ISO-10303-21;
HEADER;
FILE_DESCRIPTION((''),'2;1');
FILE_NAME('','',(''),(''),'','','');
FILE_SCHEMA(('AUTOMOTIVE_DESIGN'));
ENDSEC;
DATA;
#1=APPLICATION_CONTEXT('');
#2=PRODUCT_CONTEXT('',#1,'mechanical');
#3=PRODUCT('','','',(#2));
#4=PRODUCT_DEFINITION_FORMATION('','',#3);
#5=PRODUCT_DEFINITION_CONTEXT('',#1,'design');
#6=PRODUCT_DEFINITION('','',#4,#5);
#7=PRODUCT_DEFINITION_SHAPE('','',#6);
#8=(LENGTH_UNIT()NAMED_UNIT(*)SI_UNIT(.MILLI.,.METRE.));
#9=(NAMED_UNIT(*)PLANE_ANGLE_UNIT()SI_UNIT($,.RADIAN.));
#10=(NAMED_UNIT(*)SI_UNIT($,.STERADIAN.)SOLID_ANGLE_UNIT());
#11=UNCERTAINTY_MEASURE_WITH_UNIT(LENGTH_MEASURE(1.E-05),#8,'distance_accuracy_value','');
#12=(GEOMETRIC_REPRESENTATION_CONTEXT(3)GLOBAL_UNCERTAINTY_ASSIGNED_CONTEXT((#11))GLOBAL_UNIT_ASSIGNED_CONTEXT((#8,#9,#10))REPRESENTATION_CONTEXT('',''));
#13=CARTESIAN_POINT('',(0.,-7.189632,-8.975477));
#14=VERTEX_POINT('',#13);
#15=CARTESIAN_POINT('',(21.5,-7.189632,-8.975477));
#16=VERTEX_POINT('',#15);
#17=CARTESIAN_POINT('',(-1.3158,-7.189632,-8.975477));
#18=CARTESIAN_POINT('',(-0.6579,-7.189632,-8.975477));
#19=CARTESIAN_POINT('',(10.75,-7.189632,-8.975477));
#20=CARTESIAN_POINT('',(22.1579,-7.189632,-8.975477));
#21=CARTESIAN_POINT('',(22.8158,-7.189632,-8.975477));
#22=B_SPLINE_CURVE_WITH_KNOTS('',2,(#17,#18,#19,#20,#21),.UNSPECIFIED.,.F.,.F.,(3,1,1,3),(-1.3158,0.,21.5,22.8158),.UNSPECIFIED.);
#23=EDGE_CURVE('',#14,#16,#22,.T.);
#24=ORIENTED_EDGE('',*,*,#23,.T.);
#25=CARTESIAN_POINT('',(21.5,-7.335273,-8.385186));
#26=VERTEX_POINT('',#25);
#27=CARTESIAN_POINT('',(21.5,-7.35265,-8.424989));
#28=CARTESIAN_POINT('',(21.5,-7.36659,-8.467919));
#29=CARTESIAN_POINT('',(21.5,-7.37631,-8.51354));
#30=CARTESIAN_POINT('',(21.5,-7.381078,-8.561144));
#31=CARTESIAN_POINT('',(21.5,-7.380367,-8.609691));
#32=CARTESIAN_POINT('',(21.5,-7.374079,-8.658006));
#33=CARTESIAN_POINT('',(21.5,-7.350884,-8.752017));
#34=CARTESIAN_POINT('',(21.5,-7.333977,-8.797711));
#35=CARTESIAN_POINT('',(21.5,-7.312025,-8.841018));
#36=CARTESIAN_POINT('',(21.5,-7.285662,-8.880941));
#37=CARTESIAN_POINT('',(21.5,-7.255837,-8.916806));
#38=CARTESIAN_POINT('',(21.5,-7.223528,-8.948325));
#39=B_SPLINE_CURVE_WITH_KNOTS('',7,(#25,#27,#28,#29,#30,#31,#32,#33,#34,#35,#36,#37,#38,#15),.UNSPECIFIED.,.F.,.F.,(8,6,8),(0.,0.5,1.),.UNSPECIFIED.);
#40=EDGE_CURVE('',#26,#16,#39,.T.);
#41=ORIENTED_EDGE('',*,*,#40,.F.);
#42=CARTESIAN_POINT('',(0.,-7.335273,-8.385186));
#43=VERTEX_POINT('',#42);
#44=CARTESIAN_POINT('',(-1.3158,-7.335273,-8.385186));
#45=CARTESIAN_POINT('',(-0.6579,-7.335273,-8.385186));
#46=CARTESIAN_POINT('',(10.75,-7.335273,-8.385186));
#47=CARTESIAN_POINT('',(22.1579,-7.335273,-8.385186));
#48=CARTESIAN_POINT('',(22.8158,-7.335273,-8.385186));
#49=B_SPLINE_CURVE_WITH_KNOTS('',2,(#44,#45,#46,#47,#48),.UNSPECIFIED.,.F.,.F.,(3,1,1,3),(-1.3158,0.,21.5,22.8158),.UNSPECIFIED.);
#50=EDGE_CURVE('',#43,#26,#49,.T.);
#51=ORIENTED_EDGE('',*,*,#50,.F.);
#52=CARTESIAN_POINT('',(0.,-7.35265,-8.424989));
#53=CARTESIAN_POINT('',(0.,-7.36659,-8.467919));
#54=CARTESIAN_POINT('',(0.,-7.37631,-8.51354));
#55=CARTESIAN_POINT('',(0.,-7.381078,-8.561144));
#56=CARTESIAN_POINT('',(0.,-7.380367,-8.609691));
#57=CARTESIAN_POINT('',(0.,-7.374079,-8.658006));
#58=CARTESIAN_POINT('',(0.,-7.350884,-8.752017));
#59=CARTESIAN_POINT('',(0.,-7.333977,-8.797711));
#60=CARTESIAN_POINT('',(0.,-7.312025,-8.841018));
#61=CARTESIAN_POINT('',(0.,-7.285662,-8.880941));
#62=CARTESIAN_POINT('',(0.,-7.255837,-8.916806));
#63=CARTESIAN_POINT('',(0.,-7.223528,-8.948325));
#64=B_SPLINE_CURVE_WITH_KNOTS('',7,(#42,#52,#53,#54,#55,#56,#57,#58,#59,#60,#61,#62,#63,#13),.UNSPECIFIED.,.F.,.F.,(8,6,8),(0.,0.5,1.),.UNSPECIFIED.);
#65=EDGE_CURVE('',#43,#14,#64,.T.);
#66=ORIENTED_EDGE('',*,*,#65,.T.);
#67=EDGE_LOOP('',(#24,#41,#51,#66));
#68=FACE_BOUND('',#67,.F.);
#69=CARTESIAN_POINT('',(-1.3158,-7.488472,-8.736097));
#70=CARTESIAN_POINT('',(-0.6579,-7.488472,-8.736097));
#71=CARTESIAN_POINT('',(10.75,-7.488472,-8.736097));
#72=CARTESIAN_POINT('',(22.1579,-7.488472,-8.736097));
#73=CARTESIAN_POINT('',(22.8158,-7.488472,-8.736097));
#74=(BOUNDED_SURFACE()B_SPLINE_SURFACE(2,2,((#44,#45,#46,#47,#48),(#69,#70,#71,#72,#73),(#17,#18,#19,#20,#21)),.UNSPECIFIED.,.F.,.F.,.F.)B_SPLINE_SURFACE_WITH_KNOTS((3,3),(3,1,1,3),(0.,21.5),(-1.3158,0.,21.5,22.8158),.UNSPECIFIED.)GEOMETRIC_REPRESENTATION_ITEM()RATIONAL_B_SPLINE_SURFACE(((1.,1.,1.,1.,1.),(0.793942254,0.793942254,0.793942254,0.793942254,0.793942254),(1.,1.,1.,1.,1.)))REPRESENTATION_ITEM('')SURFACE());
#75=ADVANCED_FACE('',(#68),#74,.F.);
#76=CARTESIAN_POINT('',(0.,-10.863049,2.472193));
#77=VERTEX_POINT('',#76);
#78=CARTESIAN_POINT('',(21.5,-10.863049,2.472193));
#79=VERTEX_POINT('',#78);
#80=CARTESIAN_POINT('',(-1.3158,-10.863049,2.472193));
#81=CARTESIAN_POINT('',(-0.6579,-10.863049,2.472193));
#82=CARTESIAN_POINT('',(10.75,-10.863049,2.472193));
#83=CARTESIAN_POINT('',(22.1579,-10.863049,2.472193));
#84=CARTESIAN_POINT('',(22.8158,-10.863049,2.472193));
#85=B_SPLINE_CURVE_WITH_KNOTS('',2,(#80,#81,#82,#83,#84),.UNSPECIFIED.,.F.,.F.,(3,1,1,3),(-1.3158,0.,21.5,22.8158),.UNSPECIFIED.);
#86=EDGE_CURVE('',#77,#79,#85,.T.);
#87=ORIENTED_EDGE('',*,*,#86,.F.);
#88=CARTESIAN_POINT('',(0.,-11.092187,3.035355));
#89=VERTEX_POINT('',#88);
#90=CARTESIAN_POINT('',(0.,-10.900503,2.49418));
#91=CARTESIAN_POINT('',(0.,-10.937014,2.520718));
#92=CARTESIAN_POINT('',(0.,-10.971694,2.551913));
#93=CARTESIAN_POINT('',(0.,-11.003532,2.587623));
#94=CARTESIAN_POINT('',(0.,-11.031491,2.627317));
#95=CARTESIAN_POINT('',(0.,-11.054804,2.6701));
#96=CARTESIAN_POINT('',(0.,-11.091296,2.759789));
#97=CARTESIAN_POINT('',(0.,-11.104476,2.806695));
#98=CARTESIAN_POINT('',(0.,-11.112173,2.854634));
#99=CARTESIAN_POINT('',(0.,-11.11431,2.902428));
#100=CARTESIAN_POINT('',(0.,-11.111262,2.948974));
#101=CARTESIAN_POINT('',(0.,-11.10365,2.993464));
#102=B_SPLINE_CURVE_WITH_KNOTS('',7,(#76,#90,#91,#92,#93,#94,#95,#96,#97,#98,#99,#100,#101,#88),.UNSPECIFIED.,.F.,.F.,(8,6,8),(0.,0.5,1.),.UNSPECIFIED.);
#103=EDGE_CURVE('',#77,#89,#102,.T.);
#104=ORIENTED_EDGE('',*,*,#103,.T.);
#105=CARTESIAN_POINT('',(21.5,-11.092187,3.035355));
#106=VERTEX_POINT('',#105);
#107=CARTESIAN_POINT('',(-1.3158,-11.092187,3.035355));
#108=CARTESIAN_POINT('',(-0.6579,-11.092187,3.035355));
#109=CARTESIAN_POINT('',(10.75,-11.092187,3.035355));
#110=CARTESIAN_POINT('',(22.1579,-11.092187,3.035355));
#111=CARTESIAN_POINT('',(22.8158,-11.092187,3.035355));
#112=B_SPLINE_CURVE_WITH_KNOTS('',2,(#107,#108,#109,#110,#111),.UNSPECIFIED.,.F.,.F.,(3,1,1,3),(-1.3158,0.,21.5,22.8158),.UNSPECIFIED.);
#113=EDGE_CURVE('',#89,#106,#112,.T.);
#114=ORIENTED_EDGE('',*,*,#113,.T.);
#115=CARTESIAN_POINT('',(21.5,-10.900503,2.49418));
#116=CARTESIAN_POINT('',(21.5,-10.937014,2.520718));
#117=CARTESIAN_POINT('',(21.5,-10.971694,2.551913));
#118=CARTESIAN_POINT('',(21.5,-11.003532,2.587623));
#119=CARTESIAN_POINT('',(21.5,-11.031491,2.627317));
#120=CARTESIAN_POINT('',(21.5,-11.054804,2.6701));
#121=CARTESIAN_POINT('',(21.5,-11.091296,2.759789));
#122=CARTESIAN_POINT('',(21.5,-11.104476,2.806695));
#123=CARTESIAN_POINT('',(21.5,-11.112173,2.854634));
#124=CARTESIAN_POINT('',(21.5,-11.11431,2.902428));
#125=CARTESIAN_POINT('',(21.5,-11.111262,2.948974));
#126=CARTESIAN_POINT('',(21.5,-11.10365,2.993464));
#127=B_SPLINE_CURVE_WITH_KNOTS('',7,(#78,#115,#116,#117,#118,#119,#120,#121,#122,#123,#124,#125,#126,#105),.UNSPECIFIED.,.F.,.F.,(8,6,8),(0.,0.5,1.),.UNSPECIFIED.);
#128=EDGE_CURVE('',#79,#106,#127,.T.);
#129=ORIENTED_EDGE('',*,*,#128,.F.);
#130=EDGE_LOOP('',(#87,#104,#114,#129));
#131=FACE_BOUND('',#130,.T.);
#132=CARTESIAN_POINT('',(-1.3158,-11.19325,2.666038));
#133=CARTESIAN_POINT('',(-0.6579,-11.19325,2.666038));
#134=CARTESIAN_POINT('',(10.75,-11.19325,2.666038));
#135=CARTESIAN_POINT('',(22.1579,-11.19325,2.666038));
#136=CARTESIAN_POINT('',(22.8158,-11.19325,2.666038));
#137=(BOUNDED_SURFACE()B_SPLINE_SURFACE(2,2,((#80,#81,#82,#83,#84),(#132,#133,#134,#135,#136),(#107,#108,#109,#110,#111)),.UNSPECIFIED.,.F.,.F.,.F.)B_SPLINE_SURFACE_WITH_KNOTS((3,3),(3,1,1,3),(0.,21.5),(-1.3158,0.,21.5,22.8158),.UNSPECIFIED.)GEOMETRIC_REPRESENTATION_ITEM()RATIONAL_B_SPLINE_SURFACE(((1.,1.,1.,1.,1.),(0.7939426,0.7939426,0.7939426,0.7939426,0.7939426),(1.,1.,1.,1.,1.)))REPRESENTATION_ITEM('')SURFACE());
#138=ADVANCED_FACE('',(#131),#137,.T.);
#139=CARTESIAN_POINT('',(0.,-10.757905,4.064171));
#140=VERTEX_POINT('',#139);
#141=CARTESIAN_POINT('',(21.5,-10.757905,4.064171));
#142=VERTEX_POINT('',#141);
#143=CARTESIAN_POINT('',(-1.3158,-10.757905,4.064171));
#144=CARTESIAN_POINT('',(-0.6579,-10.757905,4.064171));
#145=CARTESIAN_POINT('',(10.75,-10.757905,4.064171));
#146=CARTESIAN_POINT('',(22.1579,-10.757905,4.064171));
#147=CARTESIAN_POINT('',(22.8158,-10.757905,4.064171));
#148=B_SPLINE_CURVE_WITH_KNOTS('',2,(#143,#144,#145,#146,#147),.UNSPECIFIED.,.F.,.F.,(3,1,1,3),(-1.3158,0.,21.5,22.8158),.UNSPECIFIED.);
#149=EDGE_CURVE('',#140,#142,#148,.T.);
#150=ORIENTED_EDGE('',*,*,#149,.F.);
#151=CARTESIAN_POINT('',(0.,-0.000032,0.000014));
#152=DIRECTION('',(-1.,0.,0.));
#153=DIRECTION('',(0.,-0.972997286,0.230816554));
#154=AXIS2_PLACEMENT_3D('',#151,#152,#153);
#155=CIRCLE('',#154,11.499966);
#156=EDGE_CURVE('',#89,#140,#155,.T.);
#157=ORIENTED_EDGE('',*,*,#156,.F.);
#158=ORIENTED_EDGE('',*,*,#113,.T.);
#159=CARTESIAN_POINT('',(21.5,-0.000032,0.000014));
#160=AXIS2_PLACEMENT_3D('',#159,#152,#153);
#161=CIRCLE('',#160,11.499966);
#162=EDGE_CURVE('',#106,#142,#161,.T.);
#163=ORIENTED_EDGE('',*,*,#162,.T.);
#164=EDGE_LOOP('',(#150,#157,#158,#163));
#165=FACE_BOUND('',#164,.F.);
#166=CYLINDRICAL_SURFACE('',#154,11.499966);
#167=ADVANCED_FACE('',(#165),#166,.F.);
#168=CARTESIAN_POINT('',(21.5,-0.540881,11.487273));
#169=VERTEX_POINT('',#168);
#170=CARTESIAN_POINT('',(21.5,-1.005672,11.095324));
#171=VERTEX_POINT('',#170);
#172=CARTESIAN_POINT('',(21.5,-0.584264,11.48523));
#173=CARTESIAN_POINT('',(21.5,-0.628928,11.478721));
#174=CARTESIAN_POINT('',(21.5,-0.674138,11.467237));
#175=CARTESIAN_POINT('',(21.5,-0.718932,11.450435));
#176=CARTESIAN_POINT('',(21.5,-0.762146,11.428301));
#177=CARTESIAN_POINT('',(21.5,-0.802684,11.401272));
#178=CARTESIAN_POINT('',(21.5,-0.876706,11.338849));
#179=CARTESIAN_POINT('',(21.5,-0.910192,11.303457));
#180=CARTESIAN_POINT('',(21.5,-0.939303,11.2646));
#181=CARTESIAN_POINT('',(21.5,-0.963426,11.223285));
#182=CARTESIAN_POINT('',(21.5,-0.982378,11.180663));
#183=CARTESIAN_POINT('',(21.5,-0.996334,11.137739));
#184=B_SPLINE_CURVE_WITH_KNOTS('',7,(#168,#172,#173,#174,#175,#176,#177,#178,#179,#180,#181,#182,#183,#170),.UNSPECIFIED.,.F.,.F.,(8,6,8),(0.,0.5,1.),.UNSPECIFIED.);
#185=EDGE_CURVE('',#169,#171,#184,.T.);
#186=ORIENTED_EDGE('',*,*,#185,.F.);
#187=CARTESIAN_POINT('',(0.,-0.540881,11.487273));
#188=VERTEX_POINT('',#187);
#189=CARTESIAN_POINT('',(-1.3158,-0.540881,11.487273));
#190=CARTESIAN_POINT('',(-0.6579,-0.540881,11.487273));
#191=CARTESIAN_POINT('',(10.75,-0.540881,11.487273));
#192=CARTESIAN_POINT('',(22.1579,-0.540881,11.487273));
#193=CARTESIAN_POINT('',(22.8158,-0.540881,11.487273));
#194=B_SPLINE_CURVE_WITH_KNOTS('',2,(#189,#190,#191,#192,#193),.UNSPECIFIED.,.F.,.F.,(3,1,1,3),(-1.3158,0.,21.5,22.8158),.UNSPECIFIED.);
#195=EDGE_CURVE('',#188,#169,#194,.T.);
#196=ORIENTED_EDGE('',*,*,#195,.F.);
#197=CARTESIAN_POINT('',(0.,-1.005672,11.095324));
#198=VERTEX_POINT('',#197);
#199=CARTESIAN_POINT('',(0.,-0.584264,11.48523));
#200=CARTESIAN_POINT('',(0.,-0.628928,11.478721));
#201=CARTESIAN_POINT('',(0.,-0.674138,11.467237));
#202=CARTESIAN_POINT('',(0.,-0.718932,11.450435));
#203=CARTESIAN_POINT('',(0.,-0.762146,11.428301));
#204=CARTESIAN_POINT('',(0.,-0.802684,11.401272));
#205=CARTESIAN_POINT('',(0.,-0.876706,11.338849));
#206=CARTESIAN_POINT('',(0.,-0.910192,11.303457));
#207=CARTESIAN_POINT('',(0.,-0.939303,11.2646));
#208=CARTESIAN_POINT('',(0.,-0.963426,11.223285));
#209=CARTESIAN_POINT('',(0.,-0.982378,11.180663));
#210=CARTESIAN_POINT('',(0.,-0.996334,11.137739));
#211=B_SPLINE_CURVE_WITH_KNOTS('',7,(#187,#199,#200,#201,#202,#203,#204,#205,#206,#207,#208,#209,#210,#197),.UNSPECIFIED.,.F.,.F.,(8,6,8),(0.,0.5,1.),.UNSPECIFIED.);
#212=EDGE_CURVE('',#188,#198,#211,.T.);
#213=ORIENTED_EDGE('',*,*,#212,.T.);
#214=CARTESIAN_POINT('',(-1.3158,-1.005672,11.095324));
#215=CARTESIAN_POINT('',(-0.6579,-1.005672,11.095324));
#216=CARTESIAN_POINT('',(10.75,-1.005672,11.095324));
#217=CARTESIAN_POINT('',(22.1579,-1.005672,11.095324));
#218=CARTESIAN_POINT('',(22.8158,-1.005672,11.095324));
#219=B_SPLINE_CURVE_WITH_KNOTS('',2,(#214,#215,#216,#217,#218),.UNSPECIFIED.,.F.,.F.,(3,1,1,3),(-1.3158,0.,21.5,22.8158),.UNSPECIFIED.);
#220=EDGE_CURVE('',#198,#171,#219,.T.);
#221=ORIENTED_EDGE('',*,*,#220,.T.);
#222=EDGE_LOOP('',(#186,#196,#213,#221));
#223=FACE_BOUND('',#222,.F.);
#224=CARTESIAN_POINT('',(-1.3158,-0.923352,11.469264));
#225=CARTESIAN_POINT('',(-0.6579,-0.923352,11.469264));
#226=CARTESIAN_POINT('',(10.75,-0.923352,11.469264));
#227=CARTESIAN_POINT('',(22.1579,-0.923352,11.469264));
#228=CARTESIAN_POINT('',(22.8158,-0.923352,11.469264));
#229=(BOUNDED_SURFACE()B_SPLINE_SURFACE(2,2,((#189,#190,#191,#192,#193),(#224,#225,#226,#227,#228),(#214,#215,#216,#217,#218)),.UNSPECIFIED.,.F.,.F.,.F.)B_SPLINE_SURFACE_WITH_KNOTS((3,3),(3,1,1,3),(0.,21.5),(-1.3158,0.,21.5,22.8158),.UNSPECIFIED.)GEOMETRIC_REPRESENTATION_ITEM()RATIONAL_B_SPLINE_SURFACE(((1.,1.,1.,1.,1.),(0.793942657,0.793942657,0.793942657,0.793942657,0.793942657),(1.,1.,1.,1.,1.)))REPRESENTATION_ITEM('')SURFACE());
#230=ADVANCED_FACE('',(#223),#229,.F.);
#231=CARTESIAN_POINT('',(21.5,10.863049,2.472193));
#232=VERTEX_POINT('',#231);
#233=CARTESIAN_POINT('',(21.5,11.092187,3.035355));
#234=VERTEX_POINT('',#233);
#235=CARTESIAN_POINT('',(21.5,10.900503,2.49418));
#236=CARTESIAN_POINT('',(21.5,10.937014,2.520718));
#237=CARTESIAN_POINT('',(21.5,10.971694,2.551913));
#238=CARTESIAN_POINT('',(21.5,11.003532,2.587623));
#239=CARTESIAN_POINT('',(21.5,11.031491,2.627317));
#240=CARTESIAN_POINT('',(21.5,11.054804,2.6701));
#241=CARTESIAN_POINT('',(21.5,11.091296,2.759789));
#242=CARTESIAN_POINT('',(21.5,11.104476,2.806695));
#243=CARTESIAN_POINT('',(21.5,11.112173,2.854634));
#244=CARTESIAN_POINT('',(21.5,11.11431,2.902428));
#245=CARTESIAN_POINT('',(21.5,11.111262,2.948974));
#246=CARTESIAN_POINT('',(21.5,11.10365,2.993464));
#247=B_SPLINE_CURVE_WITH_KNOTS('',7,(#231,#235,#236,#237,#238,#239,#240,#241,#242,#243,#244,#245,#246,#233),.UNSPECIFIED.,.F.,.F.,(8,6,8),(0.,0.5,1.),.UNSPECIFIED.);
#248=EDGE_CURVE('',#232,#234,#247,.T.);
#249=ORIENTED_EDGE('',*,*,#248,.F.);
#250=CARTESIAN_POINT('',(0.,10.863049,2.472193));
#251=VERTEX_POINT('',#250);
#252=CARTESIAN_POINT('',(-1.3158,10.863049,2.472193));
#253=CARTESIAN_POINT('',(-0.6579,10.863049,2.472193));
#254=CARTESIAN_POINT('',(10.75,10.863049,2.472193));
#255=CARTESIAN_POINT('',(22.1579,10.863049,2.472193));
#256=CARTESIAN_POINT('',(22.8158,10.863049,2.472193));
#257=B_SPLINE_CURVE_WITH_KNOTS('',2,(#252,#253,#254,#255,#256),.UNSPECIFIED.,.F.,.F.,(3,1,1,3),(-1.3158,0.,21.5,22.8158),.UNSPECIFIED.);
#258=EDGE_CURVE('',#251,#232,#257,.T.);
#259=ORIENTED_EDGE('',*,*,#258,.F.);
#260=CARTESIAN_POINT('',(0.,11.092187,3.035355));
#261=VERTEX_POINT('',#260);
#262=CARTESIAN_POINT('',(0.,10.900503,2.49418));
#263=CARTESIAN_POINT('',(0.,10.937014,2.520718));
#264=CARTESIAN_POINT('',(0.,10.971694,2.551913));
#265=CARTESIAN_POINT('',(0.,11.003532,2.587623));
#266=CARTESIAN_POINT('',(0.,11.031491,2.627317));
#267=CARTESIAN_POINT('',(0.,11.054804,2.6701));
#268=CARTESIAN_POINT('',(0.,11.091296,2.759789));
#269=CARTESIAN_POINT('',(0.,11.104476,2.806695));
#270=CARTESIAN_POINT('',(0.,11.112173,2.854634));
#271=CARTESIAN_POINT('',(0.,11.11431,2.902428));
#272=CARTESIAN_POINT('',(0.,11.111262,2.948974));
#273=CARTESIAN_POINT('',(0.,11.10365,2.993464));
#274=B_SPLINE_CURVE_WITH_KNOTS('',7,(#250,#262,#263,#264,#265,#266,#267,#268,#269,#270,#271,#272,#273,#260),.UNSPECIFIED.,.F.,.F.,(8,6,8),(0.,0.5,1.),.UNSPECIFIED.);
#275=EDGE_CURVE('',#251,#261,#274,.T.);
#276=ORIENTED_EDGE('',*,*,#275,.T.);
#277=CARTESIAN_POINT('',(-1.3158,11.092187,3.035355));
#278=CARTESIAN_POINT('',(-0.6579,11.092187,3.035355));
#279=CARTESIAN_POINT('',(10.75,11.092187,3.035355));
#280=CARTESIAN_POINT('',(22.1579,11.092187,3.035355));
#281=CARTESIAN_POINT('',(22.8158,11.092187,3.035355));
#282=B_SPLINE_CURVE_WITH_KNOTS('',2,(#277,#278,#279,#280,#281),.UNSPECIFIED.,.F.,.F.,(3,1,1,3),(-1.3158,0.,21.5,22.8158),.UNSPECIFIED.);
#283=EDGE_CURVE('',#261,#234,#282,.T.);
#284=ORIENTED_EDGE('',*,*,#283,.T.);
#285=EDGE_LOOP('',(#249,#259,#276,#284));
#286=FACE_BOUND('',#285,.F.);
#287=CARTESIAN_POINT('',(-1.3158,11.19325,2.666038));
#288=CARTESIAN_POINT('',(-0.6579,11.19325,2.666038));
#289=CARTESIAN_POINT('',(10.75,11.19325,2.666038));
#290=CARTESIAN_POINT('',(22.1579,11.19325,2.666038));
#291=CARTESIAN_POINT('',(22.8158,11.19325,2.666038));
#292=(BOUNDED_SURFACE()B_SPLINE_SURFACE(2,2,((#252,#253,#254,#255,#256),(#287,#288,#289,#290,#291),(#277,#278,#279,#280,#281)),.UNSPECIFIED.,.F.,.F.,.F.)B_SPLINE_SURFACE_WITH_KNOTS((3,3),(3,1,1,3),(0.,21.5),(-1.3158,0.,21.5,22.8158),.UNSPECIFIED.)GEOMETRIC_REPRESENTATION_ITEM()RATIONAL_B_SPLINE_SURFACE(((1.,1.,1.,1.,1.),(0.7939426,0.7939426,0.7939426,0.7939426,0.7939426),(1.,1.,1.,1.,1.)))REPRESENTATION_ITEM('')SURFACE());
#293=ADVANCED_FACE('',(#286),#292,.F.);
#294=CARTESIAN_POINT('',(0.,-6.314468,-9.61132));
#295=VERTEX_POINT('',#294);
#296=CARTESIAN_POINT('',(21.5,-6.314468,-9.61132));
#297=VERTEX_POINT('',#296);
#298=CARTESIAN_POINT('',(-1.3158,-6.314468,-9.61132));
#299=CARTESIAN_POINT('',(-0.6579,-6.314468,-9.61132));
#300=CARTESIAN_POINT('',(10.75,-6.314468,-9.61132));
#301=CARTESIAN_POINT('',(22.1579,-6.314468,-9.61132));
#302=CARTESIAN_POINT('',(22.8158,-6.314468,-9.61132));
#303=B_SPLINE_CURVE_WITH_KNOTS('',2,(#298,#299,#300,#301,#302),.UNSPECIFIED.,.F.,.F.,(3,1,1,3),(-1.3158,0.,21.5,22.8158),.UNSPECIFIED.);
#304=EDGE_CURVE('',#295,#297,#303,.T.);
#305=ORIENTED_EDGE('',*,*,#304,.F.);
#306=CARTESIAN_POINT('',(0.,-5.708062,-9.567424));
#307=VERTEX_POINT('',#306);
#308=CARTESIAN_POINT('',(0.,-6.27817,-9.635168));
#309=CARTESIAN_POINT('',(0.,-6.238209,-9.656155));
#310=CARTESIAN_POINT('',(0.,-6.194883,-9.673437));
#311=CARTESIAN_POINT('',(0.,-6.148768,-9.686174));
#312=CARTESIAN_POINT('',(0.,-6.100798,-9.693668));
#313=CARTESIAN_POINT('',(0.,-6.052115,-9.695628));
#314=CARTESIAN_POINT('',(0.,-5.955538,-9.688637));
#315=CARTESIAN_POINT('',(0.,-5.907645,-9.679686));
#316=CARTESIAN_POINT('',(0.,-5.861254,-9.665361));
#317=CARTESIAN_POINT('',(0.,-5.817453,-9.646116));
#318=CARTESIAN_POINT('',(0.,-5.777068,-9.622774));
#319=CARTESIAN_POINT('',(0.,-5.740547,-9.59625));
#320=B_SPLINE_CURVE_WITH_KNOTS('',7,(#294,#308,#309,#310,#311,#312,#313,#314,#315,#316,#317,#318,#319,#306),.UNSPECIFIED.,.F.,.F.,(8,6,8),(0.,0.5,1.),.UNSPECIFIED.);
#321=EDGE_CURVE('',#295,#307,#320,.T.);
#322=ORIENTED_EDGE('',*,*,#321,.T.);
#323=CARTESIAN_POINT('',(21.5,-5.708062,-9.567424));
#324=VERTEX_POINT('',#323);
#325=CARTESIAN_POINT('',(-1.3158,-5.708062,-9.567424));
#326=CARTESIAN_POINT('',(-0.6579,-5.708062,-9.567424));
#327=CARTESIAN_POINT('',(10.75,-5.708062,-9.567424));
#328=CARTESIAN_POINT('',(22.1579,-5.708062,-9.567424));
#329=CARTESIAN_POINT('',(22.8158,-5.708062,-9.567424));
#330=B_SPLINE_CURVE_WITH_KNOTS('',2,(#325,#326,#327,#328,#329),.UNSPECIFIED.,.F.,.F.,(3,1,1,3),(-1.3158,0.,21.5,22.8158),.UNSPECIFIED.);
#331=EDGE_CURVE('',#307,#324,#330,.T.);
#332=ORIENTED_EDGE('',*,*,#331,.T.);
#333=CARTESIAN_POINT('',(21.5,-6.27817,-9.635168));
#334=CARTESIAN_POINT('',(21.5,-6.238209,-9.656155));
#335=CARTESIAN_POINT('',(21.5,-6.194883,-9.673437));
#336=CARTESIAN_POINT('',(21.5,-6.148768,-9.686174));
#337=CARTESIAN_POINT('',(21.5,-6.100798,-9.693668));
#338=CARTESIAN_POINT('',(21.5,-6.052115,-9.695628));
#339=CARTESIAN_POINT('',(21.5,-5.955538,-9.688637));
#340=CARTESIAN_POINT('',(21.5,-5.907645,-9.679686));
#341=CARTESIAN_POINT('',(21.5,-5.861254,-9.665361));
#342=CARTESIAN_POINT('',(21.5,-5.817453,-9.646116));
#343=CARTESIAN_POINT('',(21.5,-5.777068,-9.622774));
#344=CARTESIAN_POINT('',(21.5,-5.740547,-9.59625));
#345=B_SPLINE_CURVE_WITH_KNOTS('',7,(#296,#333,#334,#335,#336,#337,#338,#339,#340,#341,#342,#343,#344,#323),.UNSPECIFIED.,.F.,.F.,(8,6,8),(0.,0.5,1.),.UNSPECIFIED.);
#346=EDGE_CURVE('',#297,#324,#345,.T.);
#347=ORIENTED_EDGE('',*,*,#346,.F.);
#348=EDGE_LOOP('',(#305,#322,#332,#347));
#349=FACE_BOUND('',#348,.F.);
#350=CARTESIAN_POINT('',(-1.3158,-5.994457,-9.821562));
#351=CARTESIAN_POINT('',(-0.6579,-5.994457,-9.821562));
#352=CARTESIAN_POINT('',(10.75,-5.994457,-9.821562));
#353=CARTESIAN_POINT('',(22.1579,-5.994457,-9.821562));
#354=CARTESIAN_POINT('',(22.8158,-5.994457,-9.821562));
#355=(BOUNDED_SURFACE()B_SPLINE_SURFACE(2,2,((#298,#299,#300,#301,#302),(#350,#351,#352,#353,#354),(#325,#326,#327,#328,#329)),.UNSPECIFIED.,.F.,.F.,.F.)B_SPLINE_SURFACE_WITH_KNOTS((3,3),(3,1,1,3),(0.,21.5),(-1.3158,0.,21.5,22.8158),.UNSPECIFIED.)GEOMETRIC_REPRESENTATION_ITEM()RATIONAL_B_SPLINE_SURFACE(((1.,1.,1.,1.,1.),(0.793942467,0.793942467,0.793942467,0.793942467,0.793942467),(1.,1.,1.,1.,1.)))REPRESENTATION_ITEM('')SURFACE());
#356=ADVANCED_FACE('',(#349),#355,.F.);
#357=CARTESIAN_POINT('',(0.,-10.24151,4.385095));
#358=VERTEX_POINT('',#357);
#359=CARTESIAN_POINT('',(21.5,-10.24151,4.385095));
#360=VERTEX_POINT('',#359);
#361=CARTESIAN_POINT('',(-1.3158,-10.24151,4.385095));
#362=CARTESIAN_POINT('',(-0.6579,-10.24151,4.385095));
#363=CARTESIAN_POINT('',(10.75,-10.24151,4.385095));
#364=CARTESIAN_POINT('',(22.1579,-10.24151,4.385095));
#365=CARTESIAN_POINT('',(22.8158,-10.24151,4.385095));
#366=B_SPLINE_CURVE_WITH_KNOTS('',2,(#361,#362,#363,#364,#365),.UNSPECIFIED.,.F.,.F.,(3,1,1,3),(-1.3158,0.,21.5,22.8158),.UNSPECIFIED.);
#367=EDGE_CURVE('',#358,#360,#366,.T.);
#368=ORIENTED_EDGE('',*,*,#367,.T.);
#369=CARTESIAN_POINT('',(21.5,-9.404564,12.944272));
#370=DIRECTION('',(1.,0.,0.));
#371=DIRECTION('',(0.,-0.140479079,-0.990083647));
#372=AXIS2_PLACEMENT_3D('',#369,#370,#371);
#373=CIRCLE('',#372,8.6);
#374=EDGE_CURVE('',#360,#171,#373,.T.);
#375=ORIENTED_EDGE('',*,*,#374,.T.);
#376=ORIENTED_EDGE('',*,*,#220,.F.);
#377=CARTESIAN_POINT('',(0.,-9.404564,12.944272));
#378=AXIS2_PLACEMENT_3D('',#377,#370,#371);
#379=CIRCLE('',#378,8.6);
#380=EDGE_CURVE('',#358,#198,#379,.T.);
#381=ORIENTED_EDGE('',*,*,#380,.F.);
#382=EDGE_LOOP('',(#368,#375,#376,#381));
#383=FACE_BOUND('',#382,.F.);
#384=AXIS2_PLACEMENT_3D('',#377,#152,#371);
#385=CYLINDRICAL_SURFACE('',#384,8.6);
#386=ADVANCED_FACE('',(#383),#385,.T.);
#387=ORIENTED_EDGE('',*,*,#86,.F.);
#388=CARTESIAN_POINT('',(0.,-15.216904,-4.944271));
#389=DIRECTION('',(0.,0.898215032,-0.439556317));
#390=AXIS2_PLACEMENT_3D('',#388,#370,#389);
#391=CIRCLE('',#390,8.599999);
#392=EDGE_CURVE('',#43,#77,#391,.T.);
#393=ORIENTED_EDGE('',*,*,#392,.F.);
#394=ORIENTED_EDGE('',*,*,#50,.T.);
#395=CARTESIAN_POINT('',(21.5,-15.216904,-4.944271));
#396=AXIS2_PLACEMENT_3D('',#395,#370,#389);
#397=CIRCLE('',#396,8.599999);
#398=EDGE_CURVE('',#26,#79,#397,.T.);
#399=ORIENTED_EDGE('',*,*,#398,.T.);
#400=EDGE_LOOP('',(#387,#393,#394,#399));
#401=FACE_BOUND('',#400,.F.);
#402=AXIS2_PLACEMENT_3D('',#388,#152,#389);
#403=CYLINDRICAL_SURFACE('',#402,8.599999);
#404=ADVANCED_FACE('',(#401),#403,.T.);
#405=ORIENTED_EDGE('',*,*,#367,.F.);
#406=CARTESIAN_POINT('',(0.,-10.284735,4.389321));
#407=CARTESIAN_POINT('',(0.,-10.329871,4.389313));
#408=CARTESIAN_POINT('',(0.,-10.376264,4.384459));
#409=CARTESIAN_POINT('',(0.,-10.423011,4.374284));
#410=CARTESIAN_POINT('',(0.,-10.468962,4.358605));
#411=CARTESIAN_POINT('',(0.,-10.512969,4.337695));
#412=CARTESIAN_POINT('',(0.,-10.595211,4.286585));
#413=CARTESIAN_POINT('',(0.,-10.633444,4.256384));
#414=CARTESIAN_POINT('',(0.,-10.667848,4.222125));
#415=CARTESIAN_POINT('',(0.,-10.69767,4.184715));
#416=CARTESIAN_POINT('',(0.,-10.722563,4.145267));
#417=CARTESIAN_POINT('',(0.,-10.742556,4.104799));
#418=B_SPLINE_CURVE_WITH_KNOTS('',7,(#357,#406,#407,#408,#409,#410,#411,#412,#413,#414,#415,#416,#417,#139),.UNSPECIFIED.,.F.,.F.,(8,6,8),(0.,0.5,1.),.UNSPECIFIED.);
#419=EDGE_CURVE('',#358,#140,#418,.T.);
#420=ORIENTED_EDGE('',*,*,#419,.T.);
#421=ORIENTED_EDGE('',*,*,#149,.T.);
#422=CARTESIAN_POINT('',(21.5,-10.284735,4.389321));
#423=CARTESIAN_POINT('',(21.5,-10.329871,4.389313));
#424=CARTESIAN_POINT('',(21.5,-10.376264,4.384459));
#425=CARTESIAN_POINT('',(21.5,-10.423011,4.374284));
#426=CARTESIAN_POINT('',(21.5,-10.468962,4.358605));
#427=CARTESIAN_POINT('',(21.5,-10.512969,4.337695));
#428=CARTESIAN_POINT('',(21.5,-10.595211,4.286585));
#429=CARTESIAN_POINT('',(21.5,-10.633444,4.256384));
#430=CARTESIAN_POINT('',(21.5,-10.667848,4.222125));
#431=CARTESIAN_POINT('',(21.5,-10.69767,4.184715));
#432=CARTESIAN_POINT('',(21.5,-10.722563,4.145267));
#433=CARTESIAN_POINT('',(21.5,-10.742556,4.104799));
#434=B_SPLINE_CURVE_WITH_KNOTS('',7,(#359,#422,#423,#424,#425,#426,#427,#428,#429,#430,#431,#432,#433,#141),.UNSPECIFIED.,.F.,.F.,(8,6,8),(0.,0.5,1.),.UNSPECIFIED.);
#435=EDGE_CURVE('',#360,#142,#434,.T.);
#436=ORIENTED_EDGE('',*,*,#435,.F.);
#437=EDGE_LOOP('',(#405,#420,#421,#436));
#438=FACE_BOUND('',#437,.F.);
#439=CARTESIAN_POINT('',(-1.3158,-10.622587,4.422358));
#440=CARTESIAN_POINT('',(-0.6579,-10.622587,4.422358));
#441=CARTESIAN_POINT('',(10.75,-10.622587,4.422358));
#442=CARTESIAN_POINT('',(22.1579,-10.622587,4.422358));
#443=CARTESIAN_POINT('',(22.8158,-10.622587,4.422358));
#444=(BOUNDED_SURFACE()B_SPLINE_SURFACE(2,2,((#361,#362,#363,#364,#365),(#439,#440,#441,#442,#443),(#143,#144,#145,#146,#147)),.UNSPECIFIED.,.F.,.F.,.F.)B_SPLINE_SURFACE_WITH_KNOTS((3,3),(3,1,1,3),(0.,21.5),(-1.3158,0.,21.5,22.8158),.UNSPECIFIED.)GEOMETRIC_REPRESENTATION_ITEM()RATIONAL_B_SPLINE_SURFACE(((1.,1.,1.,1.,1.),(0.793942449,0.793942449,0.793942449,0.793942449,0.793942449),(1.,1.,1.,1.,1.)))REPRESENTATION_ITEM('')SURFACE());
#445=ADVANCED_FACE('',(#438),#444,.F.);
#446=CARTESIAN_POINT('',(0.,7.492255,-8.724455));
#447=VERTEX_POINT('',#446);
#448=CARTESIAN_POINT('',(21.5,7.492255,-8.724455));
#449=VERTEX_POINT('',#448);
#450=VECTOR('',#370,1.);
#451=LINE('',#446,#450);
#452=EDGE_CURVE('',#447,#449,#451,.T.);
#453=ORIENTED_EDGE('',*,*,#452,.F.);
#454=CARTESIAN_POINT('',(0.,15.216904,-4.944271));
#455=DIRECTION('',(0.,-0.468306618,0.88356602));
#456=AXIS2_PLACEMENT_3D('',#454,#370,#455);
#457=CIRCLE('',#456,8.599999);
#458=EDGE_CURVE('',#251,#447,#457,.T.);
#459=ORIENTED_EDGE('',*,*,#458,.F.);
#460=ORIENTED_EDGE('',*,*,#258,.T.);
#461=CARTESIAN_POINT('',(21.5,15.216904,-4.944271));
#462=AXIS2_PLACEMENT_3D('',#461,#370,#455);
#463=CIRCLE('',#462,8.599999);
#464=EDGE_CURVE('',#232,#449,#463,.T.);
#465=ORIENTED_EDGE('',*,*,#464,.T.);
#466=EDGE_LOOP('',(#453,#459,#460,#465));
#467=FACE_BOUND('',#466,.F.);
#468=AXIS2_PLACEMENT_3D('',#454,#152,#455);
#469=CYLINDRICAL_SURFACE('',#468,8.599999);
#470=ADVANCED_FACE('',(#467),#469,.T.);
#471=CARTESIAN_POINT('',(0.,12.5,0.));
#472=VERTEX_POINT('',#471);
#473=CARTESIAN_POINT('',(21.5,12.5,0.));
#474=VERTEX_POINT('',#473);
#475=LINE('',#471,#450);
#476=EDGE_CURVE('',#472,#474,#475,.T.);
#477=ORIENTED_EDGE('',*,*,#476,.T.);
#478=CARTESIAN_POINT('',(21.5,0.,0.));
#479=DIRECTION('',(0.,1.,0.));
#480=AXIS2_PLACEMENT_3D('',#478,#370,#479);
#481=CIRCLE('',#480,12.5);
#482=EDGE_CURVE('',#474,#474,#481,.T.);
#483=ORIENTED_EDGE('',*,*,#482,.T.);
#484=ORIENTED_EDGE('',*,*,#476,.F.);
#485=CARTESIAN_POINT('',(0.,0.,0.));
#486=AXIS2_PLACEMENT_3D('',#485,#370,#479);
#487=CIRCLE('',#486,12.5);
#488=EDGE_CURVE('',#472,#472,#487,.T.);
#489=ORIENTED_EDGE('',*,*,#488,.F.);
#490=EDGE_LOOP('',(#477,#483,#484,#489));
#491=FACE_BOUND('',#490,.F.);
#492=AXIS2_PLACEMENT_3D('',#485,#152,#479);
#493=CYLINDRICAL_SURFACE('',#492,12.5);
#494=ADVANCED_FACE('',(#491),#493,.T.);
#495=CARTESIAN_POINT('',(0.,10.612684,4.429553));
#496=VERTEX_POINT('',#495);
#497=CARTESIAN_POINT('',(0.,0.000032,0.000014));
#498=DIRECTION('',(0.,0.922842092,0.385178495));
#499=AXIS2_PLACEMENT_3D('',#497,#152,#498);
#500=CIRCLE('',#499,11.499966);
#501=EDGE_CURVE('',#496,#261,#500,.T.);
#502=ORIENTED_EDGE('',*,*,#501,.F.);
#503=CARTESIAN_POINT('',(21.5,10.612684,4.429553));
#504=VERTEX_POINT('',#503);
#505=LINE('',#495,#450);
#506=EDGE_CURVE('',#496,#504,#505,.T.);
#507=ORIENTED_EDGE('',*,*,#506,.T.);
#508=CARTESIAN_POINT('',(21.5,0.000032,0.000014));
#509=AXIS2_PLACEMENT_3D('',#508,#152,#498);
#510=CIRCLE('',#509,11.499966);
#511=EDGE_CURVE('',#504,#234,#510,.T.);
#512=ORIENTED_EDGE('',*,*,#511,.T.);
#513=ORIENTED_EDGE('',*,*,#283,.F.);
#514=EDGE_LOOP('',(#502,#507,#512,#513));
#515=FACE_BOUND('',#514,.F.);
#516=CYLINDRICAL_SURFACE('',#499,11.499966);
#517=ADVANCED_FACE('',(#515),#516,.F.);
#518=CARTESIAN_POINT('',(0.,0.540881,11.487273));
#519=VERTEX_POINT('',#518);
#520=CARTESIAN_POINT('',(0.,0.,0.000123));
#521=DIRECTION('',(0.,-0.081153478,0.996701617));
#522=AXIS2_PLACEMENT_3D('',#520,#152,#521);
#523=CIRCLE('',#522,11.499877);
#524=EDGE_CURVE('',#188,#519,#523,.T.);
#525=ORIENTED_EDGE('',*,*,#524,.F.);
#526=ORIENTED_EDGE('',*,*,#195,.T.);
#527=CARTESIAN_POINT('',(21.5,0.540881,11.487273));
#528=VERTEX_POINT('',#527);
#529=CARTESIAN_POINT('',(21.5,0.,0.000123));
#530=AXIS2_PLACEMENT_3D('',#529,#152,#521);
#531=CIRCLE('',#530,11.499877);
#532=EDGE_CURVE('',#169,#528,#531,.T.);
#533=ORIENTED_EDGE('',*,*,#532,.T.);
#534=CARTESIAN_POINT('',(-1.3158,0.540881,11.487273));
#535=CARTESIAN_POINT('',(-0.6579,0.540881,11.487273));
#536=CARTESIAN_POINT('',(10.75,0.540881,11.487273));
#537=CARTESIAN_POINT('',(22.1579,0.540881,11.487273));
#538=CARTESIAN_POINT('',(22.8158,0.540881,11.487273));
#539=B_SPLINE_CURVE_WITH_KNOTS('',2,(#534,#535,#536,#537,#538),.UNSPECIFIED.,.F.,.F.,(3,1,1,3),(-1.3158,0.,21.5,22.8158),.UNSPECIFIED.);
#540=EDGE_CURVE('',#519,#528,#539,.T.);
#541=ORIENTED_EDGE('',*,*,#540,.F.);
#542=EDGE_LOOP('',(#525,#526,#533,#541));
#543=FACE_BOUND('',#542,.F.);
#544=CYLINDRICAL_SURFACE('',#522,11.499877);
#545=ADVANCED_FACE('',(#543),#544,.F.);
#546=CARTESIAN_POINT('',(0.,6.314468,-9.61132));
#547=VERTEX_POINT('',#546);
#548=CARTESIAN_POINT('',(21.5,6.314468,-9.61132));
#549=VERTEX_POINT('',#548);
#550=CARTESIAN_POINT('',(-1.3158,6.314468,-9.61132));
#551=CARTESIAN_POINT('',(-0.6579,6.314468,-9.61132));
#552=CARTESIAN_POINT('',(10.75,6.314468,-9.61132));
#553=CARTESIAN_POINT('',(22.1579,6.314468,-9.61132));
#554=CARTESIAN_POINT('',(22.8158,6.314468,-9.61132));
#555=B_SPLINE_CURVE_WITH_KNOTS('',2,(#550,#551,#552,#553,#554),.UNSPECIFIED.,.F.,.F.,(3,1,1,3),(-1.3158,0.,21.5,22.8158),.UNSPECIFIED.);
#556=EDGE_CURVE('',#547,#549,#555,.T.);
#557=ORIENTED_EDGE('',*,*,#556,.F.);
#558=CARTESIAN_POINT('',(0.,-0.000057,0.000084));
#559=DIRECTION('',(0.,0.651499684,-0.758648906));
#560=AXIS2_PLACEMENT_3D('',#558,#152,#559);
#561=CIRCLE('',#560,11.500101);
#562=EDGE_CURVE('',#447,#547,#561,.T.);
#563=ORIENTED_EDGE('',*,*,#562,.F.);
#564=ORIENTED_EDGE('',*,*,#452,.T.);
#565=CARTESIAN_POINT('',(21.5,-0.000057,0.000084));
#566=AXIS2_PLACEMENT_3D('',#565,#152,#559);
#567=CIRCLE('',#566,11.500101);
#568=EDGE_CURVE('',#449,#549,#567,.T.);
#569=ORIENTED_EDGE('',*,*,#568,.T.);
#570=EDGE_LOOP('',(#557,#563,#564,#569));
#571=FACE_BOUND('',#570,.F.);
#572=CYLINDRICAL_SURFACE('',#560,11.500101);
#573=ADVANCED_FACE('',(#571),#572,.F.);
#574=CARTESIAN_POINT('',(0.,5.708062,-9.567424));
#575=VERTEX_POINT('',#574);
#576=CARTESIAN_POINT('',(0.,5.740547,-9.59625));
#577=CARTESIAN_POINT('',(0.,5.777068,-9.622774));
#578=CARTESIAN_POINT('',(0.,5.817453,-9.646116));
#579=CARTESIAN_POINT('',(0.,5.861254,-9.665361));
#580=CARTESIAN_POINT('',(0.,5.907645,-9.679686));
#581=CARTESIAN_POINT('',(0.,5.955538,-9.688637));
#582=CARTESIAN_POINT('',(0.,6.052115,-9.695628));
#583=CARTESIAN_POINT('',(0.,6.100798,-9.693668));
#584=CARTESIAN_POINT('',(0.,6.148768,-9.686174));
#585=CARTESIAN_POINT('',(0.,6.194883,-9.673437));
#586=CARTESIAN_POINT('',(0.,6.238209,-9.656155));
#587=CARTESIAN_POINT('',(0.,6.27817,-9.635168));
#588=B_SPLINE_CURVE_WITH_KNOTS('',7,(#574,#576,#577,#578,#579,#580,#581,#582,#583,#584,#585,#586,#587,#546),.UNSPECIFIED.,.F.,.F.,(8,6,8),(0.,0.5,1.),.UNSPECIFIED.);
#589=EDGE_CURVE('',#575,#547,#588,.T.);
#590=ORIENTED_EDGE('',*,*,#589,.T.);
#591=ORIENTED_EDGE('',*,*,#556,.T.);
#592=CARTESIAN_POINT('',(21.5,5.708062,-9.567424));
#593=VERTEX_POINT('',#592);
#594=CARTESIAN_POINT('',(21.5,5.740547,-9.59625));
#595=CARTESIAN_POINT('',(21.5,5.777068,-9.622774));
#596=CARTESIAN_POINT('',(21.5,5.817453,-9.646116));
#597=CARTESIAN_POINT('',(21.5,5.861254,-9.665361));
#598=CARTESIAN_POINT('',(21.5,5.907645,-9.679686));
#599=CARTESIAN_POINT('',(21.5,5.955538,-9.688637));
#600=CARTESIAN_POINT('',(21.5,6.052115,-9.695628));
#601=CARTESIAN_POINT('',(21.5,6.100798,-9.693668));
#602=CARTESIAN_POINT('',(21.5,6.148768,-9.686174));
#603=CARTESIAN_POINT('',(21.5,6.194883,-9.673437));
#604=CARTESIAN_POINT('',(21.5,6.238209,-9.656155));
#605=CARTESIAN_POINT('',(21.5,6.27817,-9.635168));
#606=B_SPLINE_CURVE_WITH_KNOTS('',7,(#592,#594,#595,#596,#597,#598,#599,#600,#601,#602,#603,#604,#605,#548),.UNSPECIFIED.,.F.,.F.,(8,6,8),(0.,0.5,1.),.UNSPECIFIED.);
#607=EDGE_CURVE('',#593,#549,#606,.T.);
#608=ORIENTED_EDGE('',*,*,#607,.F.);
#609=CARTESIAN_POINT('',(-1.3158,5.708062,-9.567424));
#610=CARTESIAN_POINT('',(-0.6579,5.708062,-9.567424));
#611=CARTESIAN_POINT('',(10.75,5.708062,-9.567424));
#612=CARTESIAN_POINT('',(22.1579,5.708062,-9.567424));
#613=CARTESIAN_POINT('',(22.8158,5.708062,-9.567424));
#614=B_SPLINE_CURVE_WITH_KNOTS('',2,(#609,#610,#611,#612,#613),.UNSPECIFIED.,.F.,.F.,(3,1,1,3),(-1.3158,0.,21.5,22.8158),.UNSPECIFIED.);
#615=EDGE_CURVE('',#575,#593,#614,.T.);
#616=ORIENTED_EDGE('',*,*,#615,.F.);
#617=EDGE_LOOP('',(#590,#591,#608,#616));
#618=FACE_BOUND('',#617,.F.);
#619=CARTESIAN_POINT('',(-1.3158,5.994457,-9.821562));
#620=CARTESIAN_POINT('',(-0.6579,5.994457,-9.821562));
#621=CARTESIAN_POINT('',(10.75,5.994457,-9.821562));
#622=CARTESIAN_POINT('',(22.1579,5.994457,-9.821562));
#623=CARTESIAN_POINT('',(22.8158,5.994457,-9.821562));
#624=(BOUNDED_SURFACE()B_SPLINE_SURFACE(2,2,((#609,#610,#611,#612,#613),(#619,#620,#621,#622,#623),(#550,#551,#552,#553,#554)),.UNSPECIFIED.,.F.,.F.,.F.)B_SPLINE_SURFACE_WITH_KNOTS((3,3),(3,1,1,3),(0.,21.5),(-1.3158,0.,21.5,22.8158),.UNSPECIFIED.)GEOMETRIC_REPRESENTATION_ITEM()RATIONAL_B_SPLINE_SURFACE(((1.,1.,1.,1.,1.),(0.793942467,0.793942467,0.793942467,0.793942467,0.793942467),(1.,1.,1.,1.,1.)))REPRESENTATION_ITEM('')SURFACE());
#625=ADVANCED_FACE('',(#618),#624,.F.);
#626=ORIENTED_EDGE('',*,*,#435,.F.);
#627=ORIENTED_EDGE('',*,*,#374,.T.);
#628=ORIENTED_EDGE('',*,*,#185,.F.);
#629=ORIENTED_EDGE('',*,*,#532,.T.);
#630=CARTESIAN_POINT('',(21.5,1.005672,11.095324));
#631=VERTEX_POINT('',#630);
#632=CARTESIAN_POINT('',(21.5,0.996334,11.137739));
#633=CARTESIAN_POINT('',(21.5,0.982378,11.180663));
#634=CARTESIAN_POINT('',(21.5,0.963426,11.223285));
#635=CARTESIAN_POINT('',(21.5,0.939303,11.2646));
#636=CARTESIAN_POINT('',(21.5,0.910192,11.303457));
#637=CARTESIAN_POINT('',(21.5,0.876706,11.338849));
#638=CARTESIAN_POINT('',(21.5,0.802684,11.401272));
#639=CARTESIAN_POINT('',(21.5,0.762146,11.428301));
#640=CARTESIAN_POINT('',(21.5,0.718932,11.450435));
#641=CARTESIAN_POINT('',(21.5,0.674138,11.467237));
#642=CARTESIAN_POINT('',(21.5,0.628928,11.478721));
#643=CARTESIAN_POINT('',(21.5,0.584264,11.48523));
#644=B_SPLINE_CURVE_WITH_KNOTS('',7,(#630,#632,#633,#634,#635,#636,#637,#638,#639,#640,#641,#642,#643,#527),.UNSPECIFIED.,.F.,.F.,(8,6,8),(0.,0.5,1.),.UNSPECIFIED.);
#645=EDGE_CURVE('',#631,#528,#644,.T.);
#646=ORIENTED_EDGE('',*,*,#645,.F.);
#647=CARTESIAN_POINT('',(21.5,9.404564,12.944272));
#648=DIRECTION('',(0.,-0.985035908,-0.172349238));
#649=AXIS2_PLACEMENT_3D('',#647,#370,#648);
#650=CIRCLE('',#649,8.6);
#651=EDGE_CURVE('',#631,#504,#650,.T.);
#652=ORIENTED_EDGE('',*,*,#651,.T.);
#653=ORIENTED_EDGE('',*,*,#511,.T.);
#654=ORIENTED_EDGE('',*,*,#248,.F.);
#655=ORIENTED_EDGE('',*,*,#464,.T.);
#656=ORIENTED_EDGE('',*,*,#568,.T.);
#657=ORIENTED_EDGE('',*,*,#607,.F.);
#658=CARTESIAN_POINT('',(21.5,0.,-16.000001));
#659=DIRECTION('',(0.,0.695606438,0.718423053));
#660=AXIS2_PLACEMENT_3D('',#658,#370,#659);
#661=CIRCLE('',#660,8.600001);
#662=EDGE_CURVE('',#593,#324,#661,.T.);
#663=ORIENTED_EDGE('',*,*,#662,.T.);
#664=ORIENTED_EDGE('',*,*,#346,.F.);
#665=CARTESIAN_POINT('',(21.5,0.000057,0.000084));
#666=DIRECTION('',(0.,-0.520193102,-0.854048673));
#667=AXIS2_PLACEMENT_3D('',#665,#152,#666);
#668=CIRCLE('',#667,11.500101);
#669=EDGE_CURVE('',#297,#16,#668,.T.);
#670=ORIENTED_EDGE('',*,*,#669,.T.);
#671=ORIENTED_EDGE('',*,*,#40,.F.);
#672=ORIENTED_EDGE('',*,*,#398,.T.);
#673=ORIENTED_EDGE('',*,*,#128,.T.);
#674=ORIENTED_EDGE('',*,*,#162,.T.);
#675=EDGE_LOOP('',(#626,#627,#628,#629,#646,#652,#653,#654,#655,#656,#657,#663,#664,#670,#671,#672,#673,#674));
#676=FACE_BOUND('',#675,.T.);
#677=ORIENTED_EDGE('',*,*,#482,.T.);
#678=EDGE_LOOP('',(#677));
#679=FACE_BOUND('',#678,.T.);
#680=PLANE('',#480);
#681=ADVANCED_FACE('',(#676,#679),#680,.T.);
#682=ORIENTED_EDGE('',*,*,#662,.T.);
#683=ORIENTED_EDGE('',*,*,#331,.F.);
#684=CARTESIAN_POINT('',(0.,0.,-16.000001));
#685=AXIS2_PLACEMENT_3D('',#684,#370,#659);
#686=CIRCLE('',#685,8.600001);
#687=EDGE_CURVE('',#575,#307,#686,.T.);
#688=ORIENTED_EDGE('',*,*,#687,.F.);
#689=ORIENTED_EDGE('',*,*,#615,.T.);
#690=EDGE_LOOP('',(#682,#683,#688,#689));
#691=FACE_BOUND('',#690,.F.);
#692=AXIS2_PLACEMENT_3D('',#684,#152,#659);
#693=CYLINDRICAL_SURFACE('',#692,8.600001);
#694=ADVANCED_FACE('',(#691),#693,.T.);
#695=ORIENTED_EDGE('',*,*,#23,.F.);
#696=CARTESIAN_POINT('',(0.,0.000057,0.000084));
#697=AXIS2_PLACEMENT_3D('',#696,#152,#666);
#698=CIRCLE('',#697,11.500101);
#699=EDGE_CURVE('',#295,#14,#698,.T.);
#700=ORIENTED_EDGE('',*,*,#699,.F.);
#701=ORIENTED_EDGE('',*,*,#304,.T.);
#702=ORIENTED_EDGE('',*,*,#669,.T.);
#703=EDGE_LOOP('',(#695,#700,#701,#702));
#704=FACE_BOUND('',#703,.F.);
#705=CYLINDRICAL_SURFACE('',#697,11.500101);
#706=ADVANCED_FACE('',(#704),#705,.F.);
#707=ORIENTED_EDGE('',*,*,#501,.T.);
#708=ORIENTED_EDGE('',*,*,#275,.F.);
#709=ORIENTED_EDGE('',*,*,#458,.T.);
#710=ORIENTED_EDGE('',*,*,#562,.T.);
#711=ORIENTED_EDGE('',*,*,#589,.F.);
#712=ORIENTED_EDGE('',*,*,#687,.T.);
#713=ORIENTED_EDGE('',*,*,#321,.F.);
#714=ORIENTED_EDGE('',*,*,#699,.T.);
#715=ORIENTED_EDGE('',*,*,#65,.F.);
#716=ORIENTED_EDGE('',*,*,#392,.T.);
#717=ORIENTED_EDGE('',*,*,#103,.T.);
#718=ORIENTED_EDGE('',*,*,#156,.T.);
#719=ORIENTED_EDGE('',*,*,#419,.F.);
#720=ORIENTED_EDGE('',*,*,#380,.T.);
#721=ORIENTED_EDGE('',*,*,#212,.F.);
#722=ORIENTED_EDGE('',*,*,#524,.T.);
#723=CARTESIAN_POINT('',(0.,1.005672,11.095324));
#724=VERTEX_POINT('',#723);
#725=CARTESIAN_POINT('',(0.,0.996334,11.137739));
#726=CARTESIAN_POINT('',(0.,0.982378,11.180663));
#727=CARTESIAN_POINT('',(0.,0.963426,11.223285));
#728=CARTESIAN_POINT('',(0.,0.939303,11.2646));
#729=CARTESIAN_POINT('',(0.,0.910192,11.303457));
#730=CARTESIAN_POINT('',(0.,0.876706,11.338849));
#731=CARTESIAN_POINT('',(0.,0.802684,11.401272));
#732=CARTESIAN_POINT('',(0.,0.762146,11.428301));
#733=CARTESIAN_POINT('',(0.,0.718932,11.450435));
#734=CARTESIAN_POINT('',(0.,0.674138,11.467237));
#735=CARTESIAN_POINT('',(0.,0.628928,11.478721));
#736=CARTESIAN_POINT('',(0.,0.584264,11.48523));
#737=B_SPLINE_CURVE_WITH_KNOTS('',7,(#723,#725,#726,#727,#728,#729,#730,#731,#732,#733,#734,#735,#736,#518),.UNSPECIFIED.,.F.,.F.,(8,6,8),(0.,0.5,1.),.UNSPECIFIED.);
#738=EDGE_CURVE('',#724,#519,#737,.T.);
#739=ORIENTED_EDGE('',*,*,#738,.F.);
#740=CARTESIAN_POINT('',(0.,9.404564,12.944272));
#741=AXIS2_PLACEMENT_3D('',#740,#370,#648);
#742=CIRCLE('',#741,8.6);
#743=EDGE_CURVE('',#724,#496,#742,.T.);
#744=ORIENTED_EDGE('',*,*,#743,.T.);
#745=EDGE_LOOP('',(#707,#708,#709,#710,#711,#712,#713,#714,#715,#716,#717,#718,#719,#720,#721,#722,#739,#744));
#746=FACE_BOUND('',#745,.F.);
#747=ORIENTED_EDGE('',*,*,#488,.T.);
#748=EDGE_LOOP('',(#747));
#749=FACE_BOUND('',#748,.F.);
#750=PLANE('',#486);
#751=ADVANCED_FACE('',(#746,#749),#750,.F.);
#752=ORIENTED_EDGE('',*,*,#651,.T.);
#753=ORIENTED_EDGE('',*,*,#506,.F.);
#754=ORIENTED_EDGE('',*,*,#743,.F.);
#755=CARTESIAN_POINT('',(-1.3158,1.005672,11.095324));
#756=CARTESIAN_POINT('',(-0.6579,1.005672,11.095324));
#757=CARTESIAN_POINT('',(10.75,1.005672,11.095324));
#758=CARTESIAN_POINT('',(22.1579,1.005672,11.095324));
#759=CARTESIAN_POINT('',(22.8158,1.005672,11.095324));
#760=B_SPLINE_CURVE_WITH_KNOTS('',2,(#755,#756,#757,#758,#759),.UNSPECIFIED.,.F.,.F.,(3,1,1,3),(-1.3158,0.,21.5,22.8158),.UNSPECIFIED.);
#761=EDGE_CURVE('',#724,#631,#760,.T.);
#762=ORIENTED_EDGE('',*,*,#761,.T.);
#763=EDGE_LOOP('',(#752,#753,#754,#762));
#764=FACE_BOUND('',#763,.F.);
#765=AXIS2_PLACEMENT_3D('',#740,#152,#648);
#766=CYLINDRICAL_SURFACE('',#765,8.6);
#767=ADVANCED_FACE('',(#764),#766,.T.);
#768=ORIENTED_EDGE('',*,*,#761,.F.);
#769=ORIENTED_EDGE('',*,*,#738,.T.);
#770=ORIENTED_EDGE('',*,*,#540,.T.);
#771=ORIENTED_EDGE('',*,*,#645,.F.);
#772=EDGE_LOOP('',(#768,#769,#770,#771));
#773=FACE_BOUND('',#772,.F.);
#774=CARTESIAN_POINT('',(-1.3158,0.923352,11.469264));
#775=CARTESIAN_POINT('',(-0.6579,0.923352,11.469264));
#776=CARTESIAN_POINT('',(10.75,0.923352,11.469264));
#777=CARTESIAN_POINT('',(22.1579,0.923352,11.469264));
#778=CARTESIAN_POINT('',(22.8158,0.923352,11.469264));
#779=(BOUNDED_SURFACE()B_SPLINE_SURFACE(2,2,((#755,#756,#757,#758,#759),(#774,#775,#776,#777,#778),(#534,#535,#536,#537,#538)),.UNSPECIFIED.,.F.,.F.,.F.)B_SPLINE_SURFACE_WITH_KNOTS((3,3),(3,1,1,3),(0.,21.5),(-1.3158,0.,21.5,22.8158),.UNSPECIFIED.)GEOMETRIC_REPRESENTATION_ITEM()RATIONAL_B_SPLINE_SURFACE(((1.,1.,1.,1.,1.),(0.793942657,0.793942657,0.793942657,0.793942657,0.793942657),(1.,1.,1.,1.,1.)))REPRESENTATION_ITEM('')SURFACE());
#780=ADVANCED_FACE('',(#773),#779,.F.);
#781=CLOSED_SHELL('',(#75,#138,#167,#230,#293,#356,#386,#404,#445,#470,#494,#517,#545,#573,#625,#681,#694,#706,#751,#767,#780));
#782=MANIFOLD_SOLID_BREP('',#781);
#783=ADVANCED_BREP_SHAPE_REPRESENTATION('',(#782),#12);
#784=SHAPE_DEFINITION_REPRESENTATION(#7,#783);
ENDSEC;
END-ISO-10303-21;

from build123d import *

# Parameters (mm, degrees)
F0_R     = 12.5
F1_DEPTH = 21.5
F2_R     = 0.5


with BuildPart() as f1:
    # F0 (on Right) → F1 (new body)
    with BuildSketch(Plane.YZ):
        Circle(F0_R)
        with BuildLine():
            ThreePointArc((-11.189467, 2.654396), (-10.93715, 3.553695), (-10.612684, 4.429553))
            ThreePointArc((-10.612684, 4.429553), (-4.349611, 5.986726), (-0.933255, 11.462069))
            ThreePointArc((-0.933255, 11.462069), (0, 11.5), (0.933255, 11.462069))
            ThreePointArc((0.933255, 11.462069), (4.349611, 5.986726), (10.612684, 4.429553))
            ThreePointArc((10.612684, 4.429553), (10.93715, 3.553695), (11.189467, 2.654396))
            ThreePointArc((11.189467, 2.654396), (7.037818, -2.286726), (7.492255, -8.724455))
            ThreePointArc((7.492255, -8.724455), (6.75953, -9.303695), (5.982216, -9.821562))
            ThreePointArc((5.982216, -9.821562), (0, -7.4), (-5.982216, -9.821562))
            ThreePointArc((-5.982216, -9.821562), (-6.75953, -9.303695), (-7.492255, -8.724455))
            ThreePointArc((-7.492255, -8.724455), (-7.037818, -2.286726), (-11.189467, 2.654396))
        make_face(mode=Mode.SUBTRACT)
    extrude(amount=F1_DEPTH)

    # F2
    f2_edges = [f1.edges().sort_by_distance(p)[0] for p in [
        (10.75, -0.933255, 11.462069),
        (10.75, 0.933255, 11.462069),
        (10.75, -10.612684, 4.429553),
        (10.75, -11.189467, 2.654396),
        (10.75, -7.492255, -8.724455),
        (10.75, -5.982216, -9.821562),
        (10.75, 5.982216, -9.821562),
        (10.75, 11.189467, 2.654396),
    ]]
    fillet(f2_edges, radius=F2_R)


solid = f1.part
